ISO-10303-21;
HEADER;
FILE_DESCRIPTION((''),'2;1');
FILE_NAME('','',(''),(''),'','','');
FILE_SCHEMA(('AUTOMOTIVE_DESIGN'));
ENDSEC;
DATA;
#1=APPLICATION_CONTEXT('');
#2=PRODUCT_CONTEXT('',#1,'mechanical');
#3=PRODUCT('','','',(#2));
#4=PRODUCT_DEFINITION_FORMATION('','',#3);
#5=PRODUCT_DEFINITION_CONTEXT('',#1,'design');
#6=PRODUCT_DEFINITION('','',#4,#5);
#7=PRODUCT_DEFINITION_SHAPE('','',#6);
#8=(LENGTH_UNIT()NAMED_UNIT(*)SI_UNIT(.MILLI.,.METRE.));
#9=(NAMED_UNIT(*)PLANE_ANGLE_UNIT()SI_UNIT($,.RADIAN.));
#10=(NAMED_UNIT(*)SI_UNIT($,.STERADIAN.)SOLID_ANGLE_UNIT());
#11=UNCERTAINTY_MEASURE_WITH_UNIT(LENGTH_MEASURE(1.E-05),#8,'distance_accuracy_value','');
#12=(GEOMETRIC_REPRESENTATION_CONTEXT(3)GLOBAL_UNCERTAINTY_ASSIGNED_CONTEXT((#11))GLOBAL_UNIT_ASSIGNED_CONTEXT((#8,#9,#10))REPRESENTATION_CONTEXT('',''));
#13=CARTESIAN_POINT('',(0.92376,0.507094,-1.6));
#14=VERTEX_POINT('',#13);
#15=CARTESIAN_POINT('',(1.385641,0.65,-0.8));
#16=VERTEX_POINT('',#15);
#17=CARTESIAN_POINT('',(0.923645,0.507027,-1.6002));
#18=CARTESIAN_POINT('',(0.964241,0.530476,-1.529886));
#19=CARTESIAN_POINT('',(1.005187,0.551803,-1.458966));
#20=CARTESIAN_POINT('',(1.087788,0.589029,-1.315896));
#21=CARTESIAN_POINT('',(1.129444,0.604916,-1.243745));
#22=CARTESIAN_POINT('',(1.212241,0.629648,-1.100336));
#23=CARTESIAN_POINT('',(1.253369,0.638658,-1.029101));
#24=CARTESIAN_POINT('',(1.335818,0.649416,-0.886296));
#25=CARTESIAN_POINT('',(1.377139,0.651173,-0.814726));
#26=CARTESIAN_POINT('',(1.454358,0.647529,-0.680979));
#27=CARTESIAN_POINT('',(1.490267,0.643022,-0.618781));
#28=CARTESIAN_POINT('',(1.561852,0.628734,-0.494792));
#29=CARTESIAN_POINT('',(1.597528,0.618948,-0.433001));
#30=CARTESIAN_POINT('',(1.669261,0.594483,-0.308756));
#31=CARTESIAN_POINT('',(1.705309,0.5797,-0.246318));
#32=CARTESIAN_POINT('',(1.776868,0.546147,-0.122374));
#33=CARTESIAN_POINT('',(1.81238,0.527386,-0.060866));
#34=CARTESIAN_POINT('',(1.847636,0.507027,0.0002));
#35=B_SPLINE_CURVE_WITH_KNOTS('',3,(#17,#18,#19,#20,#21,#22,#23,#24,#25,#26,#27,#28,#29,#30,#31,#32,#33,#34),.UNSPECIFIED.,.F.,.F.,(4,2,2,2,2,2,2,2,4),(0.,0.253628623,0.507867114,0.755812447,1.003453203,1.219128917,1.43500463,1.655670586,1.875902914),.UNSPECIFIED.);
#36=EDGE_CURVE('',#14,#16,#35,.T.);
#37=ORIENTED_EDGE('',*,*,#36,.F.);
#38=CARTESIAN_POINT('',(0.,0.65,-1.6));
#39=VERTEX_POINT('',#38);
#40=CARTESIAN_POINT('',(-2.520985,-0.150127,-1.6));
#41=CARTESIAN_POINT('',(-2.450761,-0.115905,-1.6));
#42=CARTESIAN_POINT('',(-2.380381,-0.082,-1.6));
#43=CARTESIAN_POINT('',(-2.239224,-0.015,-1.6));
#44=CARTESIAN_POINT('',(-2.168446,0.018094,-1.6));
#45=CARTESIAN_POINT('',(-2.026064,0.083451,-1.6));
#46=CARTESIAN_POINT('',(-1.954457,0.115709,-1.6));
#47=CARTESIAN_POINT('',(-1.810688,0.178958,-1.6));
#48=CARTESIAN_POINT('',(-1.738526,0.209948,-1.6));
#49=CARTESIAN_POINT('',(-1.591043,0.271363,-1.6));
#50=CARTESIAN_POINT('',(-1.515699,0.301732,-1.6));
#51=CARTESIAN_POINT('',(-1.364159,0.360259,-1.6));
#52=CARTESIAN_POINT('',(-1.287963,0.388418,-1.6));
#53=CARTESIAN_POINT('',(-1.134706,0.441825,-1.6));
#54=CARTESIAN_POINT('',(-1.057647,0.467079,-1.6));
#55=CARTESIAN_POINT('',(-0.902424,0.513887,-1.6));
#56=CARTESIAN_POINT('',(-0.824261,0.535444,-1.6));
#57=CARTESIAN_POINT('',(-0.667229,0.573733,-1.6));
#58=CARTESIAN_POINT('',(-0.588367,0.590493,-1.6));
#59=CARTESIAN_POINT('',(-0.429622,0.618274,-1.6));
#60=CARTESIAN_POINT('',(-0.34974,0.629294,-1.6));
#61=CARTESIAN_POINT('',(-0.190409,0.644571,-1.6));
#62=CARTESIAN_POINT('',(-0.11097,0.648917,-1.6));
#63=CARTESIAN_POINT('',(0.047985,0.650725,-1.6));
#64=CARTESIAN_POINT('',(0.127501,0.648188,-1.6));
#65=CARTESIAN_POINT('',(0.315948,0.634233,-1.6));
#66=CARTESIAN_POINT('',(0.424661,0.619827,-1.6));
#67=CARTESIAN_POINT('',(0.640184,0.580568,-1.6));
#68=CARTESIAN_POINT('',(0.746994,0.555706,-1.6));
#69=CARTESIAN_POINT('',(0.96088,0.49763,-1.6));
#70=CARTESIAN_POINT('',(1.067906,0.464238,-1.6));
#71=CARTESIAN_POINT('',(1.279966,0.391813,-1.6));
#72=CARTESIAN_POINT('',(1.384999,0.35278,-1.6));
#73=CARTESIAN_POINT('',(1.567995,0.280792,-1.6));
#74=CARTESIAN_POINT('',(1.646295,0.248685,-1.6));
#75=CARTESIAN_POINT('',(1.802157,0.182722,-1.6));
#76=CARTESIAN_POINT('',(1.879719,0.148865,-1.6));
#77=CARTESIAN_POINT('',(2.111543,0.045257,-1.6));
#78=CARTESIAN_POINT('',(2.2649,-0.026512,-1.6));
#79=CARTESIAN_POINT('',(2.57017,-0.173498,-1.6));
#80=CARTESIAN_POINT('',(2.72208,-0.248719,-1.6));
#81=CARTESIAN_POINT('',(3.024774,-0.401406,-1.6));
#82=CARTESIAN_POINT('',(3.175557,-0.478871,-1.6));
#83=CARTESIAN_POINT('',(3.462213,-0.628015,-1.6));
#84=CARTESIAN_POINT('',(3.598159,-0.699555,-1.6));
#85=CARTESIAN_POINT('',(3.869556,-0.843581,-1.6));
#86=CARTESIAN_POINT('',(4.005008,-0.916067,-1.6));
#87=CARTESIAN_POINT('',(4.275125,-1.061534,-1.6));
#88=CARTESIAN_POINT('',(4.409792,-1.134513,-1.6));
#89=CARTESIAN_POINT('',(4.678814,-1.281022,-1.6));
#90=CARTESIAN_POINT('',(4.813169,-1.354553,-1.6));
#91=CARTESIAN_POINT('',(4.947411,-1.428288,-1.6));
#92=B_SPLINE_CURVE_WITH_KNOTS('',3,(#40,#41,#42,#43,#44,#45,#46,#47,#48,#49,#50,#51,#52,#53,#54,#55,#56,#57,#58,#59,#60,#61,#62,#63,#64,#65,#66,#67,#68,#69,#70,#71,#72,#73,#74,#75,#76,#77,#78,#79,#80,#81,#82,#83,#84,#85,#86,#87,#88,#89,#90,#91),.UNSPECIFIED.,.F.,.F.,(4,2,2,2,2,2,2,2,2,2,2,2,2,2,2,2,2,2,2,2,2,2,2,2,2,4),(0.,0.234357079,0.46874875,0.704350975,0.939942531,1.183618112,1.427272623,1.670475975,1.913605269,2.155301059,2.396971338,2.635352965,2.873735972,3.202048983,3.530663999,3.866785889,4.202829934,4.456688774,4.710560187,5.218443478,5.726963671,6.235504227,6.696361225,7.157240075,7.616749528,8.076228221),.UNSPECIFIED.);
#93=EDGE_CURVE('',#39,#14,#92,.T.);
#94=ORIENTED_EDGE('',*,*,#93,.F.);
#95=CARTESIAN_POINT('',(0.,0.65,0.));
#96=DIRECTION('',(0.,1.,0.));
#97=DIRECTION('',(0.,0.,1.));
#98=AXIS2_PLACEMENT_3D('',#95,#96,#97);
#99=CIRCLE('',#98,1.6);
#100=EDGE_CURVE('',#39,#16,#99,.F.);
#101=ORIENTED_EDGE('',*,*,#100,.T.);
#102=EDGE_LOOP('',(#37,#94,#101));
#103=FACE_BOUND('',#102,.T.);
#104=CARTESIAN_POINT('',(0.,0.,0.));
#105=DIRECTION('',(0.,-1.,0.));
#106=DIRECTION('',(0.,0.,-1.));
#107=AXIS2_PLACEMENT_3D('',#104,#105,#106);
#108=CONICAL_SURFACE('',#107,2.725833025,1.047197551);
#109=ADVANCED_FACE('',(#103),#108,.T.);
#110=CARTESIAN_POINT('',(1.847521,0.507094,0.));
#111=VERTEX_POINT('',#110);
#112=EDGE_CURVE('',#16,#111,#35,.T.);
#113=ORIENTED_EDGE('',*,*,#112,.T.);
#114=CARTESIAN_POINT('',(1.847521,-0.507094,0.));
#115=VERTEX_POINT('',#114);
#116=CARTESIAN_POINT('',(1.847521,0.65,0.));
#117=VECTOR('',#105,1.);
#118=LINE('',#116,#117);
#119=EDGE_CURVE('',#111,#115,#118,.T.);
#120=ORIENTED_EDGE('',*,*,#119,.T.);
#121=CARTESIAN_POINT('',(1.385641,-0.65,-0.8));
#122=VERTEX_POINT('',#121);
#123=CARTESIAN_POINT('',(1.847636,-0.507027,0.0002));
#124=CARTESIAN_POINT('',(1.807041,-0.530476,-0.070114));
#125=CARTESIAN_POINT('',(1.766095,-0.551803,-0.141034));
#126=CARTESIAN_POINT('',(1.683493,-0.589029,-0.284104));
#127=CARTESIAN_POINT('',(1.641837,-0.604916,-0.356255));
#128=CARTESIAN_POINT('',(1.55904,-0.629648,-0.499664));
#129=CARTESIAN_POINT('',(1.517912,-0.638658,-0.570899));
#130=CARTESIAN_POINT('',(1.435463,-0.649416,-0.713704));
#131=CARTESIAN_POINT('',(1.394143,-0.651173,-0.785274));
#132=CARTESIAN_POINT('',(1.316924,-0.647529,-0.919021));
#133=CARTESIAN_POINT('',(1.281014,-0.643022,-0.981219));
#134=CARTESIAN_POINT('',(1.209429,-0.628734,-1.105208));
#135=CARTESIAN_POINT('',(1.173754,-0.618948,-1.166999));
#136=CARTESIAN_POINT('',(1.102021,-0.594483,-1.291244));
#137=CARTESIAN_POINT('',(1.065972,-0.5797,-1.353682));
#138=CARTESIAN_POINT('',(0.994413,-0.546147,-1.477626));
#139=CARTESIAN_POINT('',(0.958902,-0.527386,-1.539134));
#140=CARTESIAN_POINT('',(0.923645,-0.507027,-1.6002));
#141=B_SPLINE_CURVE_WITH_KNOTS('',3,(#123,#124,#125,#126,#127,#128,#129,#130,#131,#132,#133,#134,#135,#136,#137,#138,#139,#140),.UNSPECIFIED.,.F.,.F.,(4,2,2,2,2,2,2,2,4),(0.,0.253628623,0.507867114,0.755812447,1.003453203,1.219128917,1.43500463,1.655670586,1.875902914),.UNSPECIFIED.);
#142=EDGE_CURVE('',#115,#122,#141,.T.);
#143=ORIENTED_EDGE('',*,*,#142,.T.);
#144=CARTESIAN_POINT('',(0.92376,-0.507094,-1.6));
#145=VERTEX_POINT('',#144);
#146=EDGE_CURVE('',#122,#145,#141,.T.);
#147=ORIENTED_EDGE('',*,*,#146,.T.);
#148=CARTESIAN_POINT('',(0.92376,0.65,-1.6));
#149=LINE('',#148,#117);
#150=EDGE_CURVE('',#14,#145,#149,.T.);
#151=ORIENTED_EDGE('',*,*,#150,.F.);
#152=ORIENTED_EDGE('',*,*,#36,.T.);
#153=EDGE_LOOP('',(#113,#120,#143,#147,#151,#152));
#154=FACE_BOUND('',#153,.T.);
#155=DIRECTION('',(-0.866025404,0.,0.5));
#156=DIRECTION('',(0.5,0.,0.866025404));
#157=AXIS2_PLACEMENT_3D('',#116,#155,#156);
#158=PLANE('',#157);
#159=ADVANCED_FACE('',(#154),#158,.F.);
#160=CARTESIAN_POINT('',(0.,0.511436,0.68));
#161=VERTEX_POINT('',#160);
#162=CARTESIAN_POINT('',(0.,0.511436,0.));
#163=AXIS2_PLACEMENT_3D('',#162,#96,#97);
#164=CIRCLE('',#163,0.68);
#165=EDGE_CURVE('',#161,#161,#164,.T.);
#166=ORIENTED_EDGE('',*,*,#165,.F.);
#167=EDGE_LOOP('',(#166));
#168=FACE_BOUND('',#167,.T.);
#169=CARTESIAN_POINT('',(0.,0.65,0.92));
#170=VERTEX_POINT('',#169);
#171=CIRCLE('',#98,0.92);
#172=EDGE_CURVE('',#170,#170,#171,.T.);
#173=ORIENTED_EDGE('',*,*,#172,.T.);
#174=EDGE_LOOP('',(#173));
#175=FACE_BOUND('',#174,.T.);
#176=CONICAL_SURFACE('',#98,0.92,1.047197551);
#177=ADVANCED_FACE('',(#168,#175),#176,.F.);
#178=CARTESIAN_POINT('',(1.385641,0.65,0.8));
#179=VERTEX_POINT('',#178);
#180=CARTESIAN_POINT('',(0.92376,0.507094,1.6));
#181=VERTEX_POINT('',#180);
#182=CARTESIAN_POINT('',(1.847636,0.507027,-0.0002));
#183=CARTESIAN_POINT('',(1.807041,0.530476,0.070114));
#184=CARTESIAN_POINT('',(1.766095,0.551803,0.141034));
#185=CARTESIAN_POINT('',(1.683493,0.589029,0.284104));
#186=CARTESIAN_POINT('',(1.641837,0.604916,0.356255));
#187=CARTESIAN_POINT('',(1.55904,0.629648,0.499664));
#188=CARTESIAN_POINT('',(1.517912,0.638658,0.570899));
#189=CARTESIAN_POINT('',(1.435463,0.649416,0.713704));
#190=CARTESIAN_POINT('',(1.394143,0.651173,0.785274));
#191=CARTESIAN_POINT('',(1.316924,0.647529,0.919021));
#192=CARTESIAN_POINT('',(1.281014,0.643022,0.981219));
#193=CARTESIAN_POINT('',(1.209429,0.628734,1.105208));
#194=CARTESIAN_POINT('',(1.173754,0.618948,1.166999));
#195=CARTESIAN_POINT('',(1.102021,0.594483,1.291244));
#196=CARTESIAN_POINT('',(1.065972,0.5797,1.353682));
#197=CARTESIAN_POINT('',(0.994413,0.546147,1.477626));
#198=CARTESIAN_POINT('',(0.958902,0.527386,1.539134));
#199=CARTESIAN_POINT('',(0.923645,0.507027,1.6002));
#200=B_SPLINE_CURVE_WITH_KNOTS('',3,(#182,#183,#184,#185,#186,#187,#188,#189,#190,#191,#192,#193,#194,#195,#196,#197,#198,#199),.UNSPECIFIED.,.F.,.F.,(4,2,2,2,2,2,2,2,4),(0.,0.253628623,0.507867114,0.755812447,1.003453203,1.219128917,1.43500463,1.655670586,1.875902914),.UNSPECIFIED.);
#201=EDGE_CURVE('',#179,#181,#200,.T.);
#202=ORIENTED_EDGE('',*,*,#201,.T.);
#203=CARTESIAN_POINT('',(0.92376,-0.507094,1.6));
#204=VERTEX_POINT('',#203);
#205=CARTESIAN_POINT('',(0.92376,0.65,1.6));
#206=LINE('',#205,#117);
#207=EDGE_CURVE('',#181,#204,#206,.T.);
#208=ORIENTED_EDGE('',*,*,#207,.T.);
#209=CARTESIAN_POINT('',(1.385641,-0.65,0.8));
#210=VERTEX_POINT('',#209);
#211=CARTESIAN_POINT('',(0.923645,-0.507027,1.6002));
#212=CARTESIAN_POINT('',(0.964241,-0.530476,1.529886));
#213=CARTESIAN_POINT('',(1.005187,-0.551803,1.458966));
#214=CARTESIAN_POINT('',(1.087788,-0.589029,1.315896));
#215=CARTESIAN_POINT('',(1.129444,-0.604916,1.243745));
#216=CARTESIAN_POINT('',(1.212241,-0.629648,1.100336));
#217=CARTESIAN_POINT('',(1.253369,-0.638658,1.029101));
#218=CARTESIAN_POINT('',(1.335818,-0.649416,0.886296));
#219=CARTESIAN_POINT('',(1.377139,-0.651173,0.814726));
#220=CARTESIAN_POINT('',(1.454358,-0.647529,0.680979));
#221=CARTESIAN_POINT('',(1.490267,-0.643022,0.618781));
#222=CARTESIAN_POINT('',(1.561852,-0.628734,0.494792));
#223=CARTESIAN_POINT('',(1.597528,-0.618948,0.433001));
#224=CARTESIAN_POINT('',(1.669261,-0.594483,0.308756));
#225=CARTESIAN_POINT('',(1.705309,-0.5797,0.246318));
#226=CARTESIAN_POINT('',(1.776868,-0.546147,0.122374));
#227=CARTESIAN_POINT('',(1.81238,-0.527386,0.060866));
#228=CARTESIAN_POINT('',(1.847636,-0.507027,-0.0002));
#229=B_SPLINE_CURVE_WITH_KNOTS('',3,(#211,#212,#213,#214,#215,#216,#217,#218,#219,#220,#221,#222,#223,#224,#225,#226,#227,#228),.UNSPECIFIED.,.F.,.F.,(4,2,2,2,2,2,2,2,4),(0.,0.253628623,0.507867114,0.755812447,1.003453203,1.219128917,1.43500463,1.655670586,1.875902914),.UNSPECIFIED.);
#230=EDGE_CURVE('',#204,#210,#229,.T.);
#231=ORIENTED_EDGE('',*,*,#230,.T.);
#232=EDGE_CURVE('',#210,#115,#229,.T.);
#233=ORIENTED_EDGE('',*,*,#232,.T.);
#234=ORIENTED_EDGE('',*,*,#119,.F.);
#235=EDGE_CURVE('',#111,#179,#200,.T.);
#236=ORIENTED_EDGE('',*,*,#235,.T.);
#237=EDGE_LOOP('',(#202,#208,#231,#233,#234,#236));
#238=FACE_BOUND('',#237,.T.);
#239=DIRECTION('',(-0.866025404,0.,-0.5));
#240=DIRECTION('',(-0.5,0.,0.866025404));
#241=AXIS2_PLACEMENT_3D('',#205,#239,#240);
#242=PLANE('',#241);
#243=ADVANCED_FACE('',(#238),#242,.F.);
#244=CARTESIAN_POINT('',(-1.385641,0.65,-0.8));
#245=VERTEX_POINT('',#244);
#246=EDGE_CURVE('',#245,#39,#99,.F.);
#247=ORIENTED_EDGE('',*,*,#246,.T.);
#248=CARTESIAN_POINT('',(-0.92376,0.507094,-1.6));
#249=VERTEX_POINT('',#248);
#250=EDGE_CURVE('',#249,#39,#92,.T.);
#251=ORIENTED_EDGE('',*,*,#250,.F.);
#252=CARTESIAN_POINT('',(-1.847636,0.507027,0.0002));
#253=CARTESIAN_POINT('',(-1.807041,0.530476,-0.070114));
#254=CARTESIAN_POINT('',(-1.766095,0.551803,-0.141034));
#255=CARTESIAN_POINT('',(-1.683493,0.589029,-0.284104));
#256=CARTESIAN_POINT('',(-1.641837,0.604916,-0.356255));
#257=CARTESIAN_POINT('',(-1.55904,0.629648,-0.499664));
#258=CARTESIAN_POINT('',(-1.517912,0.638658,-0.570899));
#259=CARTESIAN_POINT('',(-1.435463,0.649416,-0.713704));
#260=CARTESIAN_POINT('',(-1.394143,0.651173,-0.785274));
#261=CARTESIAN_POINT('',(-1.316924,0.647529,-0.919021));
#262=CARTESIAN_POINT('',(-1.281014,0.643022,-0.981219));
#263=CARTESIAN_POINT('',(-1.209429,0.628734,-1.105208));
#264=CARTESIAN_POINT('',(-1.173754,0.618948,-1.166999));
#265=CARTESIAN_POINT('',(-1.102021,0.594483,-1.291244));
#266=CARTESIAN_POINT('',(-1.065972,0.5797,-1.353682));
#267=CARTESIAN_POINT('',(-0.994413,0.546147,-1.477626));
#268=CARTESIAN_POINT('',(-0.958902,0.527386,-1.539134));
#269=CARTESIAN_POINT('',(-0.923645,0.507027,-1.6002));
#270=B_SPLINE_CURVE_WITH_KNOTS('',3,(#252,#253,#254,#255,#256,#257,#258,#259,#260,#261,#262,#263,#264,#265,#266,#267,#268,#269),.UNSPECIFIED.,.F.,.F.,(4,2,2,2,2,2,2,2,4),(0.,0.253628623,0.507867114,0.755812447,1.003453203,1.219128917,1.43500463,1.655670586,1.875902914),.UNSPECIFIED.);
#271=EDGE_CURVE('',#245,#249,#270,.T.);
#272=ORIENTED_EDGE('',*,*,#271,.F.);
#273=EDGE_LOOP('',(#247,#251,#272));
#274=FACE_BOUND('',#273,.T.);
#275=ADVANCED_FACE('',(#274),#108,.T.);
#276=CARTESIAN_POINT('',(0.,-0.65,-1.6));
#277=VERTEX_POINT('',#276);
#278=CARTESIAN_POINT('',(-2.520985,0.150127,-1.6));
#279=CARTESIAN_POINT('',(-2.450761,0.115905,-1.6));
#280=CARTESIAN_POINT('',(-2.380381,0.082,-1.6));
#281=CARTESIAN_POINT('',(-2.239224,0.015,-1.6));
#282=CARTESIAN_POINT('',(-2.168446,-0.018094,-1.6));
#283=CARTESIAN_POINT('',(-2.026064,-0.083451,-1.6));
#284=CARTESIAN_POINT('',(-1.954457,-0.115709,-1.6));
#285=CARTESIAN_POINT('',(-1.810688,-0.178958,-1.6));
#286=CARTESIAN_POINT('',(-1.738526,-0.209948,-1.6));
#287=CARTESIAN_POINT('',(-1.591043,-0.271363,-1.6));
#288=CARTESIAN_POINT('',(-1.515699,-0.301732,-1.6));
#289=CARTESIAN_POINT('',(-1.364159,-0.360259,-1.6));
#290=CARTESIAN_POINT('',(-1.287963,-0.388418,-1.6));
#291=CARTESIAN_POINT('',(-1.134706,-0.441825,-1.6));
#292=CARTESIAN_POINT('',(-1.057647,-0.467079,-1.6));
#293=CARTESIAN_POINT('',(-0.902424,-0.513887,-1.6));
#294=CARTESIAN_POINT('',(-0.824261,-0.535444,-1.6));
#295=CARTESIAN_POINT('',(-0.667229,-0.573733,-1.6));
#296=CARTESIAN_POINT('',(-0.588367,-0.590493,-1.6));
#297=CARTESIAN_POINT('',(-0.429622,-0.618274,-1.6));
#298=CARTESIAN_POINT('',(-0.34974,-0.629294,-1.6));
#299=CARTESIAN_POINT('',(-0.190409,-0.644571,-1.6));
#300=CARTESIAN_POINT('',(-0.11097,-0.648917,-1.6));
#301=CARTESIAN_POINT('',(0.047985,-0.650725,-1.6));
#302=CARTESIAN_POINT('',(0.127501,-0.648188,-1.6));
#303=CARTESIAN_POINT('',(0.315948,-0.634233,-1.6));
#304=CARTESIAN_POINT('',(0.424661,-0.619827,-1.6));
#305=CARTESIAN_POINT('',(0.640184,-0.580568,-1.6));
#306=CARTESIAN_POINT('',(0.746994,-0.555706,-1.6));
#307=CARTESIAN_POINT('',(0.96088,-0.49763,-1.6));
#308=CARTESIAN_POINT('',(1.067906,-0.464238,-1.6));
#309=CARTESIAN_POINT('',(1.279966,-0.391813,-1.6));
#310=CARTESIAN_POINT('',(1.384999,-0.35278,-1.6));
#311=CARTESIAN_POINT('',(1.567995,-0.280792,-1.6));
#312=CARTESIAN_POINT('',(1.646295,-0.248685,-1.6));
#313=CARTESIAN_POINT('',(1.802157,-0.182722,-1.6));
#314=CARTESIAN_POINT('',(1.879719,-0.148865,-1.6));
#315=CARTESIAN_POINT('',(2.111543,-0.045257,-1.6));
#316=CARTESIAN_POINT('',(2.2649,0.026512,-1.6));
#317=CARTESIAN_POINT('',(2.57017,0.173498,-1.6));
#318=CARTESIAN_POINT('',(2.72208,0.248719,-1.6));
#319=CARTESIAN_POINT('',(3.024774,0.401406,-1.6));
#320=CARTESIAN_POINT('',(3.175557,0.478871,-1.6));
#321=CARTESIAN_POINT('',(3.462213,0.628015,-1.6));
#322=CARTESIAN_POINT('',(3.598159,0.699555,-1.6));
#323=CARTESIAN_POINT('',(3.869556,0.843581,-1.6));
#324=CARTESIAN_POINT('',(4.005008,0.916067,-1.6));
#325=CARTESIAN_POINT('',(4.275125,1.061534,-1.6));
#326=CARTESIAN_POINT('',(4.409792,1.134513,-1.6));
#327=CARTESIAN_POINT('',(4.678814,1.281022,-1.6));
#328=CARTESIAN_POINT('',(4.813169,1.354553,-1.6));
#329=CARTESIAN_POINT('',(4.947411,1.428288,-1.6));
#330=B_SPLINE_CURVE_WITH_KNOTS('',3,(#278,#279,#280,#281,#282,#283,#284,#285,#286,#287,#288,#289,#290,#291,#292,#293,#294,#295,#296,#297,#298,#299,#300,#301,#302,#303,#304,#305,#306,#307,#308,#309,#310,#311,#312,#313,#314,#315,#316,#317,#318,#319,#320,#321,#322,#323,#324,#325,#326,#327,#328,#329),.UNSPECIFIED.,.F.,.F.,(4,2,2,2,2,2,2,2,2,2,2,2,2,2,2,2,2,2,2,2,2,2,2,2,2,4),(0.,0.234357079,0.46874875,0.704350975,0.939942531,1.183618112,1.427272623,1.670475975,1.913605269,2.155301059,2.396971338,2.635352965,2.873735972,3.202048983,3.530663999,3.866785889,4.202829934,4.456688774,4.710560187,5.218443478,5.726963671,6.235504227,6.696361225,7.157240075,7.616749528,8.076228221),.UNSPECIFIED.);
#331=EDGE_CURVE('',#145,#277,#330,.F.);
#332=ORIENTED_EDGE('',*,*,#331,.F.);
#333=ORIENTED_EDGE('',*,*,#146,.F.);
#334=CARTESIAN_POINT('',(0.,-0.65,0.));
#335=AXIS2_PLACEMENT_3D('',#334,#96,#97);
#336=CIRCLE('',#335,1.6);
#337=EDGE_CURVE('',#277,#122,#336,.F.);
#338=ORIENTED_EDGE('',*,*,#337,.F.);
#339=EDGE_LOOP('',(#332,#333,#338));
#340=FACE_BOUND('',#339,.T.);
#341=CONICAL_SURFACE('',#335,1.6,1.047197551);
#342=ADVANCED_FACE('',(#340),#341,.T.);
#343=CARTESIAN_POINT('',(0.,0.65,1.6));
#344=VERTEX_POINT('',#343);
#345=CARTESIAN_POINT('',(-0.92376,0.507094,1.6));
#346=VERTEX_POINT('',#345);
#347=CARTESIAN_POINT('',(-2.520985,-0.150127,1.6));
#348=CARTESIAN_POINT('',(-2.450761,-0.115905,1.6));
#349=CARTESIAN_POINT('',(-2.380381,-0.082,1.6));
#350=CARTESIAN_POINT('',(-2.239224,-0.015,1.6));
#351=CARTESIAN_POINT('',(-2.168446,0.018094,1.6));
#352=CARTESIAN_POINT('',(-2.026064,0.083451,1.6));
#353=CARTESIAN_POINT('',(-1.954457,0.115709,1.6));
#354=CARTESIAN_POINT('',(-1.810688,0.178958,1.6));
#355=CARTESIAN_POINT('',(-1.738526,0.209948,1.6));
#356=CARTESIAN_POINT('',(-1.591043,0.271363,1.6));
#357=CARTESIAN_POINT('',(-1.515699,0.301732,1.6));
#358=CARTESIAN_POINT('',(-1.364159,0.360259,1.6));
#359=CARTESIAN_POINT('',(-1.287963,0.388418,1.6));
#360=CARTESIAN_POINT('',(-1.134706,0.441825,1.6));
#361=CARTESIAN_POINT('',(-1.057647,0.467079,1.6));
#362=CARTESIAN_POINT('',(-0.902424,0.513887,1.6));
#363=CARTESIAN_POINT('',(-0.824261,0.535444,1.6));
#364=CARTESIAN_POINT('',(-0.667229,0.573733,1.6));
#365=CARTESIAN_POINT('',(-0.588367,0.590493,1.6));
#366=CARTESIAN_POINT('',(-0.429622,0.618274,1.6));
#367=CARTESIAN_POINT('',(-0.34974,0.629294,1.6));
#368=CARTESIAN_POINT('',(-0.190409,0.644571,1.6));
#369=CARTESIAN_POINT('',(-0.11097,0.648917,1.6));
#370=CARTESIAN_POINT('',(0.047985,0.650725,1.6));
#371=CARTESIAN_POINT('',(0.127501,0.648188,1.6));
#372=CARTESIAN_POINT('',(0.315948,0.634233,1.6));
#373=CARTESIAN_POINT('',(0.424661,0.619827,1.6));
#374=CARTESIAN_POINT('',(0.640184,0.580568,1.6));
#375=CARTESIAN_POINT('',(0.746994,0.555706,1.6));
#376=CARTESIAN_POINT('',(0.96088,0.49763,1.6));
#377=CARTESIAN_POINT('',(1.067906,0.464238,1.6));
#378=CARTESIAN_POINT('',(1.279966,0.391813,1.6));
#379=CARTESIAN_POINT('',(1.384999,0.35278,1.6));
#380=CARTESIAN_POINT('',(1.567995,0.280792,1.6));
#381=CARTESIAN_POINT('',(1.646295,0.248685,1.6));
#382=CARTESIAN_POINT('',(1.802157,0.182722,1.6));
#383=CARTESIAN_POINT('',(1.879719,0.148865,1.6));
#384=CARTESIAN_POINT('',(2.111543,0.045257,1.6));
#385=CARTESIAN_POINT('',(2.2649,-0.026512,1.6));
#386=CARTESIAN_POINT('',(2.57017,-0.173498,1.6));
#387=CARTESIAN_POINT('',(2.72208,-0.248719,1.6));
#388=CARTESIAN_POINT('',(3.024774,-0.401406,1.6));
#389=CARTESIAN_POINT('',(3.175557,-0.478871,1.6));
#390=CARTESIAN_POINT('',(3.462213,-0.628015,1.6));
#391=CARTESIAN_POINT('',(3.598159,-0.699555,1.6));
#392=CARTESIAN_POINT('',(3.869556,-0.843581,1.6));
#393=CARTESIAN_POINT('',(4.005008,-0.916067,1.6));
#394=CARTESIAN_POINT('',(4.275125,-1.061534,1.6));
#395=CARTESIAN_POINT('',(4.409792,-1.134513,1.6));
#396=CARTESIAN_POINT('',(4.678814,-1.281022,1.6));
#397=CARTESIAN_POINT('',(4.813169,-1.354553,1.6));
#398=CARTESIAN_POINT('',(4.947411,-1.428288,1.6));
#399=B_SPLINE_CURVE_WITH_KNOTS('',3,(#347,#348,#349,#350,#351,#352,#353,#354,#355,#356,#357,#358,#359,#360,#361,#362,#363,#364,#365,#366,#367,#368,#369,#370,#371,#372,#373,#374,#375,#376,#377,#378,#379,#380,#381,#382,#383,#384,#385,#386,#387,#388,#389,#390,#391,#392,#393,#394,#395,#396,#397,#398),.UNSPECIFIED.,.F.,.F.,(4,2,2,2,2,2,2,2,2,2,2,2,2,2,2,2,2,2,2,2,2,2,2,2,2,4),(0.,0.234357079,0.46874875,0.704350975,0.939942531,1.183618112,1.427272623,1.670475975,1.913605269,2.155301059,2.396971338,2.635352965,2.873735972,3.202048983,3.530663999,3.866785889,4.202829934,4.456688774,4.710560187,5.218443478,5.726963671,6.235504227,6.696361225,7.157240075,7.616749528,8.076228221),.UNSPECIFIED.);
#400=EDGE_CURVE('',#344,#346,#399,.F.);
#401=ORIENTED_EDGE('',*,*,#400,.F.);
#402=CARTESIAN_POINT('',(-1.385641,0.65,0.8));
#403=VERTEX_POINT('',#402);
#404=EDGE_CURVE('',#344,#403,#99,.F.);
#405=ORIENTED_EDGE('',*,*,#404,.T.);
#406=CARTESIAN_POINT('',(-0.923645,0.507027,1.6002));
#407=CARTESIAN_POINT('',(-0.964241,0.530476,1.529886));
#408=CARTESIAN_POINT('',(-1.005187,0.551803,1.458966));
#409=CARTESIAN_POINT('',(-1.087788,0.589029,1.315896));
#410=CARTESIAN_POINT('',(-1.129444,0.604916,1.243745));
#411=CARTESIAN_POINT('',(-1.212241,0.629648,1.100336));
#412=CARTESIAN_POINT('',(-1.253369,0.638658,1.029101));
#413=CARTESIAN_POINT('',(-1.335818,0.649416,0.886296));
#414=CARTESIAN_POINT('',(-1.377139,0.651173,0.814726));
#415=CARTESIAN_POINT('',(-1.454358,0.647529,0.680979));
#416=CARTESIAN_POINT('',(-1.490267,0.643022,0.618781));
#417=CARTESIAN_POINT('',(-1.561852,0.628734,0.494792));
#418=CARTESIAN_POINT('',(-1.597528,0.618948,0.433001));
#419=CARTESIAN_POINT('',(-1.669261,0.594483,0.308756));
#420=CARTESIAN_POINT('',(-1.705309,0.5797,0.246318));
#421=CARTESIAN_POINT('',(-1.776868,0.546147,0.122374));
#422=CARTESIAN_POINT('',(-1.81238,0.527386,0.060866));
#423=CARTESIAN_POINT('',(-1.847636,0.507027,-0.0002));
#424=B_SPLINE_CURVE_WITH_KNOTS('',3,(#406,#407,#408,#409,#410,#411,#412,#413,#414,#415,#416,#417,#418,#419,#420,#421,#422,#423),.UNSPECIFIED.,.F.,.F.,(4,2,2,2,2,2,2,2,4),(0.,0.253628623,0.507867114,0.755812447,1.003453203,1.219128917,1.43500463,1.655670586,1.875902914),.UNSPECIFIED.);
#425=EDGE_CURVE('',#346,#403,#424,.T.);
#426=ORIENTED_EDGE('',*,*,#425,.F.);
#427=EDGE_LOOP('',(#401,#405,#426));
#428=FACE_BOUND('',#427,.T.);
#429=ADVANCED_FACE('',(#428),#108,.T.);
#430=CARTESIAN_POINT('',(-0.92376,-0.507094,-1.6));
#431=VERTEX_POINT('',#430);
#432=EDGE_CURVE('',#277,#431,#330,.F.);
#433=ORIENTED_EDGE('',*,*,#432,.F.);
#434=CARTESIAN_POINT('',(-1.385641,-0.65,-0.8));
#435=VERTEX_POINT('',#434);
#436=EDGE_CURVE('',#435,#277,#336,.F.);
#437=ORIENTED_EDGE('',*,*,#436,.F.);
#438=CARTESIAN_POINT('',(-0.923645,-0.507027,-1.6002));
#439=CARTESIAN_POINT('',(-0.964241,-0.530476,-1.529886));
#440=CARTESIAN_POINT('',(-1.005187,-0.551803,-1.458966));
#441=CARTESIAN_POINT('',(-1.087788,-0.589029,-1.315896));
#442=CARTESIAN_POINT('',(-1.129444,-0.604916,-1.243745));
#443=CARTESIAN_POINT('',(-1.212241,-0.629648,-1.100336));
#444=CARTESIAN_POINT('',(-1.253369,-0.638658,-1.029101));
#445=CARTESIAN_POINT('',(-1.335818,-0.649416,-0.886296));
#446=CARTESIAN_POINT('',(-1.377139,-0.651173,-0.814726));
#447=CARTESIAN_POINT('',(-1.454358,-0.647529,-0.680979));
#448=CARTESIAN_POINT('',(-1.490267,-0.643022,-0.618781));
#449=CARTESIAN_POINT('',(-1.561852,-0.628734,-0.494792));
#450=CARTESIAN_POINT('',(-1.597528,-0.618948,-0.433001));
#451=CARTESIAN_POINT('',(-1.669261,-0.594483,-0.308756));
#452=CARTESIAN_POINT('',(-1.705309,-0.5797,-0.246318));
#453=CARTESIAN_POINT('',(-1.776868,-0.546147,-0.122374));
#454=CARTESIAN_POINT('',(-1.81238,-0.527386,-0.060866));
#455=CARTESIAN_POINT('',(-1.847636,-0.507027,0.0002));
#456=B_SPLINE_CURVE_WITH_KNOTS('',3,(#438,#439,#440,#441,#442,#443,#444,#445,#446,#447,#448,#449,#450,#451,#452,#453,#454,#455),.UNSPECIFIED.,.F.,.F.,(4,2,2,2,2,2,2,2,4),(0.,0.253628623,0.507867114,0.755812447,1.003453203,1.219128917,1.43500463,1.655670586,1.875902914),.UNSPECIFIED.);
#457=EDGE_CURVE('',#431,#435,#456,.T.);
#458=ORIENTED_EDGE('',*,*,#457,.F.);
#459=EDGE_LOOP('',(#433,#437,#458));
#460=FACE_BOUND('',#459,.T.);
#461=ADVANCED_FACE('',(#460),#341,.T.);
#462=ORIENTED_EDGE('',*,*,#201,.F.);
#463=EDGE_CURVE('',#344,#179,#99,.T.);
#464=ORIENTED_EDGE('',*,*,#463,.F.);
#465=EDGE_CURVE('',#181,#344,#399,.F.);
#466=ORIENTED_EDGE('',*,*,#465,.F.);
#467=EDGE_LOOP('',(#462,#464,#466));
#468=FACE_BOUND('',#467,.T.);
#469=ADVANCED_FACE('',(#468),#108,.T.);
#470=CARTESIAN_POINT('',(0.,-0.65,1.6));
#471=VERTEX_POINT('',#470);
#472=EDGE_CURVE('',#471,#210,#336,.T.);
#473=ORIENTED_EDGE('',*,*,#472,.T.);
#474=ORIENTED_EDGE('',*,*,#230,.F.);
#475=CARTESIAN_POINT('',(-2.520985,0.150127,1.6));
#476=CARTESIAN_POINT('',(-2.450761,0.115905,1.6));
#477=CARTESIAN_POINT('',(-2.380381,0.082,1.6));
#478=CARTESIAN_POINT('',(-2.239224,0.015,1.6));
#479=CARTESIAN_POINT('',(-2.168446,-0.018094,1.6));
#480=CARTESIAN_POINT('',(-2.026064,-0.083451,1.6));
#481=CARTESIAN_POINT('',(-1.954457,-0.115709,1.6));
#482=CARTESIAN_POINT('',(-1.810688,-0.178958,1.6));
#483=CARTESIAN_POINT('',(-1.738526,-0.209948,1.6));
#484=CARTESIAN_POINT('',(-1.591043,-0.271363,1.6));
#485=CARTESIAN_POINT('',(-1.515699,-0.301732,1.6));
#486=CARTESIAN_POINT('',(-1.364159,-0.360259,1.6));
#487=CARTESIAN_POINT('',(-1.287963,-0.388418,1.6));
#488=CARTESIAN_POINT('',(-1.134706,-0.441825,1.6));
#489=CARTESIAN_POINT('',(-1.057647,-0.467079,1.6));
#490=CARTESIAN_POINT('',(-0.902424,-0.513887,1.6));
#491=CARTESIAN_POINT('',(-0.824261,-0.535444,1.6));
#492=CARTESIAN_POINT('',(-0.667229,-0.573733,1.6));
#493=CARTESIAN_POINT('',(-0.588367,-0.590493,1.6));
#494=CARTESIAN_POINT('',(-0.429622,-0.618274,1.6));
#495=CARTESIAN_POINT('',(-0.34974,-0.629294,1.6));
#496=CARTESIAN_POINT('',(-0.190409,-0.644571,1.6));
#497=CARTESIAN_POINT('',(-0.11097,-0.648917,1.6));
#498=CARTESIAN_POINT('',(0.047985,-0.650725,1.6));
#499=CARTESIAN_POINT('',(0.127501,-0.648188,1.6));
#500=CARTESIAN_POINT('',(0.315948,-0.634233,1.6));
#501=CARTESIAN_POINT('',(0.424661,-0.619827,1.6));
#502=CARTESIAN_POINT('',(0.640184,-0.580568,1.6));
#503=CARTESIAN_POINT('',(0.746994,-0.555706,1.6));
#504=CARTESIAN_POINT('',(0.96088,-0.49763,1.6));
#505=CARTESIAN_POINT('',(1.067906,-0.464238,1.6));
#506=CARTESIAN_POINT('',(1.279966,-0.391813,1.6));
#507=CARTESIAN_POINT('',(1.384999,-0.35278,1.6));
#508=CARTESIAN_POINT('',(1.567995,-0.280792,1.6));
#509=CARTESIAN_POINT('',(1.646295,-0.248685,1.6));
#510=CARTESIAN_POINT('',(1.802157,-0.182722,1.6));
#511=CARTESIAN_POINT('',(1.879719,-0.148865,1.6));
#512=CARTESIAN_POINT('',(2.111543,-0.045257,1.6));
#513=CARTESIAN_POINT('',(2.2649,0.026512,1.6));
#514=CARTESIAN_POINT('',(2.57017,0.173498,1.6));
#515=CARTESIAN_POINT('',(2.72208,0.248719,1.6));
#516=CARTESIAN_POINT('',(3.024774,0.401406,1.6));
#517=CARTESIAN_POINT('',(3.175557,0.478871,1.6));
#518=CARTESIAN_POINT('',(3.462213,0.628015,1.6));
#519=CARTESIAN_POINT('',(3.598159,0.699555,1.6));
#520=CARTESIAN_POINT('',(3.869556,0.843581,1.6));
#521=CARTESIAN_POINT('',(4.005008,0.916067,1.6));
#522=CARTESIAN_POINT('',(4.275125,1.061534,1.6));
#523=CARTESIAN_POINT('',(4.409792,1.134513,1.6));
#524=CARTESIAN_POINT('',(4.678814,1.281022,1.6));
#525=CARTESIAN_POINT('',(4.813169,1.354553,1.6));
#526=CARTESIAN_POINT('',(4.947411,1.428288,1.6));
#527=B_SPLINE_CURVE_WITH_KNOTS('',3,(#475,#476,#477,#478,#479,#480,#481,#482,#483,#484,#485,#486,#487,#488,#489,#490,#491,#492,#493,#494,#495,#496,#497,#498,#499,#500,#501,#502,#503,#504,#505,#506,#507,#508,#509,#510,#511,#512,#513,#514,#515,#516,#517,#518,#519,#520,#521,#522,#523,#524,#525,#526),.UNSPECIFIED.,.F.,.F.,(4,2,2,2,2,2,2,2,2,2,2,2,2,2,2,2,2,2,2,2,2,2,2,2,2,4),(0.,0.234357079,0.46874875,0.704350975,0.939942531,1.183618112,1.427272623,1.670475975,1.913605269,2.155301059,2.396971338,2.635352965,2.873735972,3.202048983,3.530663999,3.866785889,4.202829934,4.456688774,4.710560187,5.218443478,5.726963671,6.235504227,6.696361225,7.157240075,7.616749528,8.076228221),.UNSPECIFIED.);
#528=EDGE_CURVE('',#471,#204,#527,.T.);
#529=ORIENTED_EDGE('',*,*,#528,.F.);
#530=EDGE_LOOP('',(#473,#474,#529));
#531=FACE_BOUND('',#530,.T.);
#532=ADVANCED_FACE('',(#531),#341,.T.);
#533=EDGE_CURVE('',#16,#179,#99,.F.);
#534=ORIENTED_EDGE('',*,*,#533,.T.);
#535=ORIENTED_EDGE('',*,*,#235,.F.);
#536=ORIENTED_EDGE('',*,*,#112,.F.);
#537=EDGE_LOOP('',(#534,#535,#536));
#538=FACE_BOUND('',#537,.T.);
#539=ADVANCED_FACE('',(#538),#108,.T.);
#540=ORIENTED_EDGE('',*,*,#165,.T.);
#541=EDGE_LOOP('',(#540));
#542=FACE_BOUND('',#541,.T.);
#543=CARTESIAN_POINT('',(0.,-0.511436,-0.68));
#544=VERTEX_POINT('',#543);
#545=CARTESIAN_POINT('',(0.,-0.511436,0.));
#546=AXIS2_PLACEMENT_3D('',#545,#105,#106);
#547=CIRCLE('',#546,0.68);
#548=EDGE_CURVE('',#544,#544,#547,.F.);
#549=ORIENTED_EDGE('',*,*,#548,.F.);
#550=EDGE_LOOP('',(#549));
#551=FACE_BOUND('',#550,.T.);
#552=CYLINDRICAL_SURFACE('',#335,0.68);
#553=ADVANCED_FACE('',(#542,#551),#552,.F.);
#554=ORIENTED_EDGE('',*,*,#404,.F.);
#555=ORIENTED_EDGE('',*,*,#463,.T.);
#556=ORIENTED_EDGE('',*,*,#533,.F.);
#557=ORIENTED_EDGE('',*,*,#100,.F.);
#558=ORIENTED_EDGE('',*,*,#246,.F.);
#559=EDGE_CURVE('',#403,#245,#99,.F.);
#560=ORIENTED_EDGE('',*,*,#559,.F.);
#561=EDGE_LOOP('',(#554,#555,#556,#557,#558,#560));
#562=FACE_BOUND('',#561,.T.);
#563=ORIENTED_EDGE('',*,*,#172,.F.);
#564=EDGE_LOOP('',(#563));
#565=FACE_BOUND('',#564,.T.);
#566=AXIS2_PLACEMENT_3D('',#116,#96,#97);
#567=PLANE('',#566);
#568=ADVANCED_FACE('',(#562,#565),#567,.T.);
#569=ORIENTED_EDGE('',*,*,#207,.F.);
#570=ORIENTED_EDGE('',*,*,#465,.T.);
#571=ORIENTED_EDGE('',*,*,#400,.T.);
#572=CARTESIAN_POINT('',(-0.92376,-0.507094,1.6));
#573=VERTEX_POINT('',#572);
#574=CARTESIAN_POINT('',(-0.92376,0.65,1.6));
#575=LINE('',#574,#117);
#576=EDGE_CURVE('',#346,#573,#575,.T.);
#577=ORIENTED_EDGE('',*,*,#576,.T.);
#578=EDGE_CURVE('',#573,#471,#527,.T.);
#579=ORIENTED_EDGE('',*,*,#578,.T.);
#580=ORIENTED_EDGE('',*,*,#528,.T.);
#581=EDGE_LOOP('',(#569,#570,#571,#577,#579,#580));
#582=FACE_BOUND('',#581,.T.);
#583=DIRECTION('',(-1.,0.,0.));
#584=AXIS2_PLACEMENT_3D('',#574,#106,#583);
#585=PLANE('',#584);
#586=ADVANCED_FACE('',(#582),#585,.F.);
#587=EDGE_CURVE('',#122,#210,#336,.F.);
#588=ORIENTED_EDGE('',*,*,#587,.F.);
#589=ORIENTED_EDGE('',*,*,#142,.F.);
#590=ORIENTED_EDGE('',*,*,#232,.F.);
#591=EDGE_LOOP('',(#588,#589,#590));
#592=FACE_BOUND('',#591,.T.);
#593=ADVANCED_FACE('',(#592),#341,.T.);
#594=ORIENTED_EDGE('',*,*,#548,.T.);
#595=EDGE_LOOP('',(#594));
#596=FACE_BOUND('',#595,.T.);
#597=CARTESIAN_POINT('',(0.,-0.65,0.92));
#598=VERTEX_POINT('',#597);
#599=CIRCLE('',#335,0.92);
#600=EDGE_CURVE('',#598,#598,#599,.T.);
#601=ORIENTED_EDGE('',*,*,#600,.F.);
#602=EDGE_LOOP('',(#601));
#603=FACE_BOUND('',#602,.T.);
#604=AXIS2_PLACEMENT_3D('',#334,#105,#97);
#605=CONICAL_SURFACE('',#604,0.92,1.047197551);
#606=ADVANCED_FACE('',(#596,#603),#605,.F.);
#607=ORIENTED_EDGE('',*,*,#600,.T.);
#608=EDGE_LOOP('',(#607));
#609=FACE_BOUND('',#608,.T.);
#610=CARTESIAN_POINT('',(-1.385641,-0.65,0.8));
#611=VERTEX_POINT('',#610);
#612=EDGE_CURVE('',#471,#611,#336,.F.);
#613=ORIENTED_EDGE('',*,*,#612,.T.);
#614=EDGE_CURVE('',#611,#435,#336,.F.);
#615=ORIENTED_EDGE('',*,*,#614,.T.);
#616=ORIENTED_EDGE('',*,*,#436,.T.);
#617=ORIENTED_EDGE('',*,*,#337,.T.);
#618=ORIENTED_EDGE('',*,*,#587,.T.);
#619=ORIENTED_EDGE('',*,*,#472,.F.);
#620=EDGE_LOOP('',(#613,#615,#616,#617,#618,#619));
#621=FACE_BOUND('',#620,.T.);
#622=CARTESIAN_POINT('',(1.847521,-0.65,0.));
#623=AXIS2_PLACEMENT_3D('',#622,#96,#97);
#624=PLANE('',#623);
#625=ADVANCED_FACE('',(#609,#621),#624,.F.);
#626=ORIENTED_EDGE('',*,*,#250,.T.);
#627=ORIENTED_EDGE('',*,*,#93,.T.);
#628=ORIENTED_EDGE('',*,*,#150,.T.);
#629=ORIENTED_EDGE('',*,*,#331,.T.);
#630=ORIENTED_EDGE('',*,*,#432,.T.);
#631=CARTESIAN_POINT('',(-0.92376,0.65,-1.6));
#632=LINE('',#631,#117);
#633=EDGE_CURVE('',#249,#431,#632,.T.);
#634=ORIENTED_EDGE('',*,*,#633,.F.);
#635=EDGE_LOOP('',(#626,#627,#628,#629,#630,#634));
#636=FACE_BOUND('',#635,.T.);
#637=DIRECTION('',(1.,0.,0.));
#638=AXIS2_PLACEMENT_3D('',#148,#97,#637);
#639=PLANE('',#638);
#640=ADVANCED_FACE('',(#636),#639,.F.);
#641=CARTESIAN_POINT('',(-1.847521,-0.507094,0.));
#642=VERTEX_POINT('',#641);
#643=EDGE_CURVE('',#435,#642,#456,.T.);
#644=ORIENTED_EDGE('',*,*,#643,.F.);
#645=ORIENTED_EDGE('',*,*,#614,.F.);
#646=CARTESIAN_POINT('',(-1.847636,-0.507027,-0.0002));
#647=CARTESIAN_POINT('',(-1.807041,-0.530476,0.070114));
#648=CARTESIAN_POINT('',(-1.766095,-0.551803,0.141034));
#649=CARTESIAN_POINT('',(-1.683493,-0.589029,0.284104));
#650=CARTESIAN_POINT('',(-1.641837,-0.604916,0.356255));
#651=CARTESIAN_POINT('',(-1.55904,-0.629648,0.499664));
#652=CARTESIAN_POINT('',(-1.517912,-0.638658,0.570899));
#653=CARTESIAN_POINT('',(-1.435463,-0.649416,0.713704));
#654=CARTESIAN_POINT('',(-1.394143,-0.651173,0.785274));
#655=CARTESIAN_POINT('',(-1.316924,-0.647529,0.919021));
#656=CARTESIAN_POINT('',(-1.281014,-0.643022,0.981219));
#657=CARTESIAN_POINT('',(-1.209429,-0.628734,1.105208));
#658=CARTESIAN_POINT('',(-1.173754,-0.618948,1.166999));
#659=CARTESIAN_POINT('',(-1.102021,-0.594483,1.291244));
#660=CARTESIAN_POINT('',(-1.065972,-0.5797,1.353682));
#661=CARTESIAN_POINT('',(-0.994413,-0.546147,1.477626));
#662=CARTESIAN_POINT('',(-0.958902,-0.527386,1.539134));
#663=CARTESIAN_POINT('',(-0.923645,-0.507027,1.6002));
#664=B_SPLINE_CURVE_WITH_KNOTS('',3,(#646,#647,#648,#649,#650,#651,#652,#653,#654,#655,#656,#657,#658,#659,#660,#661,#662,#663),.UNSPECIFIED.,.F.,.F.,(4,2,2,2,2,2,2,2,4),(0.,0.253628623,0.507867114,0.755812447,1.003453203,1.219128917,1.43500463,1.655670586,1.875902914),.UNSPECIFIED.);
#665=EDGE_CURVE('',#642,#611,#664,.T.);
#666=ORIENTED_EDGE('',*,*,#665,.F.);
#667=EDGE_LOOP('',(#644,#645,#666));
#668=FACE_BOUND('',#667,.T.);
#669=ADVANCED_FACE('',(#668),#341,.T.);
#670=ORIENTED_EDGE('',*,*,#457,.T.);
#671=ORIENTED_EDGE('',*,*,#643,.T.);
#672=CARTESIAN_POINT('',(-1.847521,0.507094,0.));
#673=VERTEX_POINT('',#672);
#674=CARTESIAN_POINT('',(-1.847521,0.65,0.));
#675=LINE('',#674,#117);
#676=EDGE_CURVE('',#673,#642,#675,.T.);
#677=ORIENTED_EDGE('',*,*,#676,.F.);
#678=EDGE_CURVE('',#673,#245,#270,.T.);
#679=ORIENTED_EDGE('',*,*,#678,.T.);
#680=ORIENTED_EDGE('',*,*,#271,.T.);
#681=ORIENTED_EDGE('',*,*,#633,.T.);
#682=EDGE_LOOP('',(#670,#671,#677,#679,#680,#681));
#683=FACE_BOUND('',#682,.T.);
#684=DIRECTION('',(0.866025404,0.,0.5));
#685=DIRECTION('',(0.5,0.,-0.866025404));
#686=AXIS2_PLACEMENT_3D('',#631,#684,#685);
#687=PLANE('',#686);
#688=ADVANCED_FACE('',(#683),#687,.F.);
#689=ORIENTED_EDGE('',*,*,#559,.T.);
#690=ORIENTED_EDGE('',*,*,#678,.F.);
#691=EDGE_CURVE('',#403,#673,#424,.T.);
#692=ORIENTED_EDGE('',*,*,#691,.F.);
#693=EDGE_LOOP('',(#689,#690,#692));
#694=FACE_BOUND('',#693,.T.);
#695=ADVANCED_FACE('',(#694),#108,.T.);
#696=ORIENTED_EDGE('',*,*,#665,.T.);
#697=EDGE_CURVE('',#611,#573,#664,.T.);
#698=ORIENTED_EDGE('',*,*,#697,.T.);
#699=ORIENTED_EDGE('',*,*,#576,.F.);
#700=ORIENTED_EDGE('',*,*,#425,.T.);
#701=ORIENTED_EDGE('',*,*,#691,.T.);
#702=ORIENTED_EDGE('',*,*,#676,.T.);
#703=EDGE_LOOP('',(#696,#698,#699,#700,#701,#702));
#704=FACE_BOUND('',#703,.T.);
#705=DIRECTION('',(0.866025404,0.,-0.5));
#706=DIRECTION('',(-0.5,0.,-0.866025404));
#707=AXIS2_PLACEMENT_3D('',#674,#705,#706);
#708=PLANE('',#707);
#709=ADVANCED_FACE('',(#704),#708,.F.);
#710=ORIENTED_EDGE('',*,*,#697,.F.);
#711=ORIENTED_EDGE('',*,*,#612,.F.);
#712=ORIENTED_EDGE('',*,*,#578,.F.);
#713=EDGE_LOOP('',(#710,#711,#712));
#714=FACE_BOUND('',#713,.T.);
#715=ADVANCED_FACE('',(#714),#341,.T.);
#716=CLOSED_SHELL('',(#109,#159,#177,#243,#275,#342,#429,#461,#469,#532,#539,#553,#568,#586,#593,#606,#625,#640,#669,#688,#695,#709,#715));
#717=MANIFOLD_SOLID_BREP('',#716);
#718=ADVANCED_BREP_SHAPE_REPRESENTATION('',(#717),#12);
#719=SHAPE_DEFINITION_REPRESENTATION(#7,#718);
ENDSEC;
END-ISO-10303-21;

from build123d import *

# Parameters (mm, degrees)
VYSUNOUT1_DEPTH          = 0.65
SKICA3_R                 = 0.68
ODEBRAT_VYSUNUT_M1_DEPTH = 3.768272626


with BuildPart() as part:
    # Skica1 → Vysunout1 (new, symmetric)
    with BuildSketch(Plane(origin=(0, 0, 0), x_dir=(1, 0, 0), z_dir=(0, 1, 0))):
        Polygon((1.847520861, 0), (0.923760431, 1.6), (-0.923760431, 1.6), (-1.847520861, 0), (-0.923760431, -1.6), (0.923760431, -1.6), align=None)
    extrude(amount=VYSUNOUT1_DEPTH, both=True)

    # Skica2 → Odebrat otočením1 (revolve, cut)
    with BuildSketch(Plane(origin=(0, 0, 0), x_dir=(0, 0, -1), z_dir=(1, 0, 0))):
        Polygon((2.725833025, 0.65), (1.6, 0.65), (2.725833025, 0), align=None)
        Polygon((2.725833025, -0.65), (2.725833025, 0), (1.6, -0.65), align=None)
    revolve(axis=Axis((0, 0.65, 0), (0, -1, 0)), mode=Mode.SUBTRACT)

    # Skica3 → Odebrat vysunutím1 (cut, through all)
    with BuildSketch(Plane(origin=(0, 0.65, 0), x_dir=(-1, 0, 0), z_dir=(0, 1, 0))):
        with Locations(Location((0, 0, 0), (0, 0, 90))):
            Circle(SKICA3_R)
    extrude(amount=-ODEBRAT_VYSUNUT_M1_DEPTH, mode=Mode.SUBTRACT)

    # Odebrat vysunutím2 cone 1 section (through the dimple's axis) → Odebrat vysunutím2 (revolve, cut)
    with BuildSketch(Plane(origin=(0, 0.65, 0), x_dir=(0, 0, 1), z_dir=(1, 0, 0))):
        Polygon((0, 0), (0.92, 0), (0, 0.531162248), align=None)
    odebrat_vysunut_m2 = revolve(axis=Axis((0, 0.65, 0), (0, -1, 0)), mode=Mode.SUBTRACT)

    # Zrcadlit1: Odebrat vysunutím2 across plane
    add(odebrat_vysunut_m2.mirror(Plane.ZX), mode=Mode.SUBTRACT)


solid = part.part
